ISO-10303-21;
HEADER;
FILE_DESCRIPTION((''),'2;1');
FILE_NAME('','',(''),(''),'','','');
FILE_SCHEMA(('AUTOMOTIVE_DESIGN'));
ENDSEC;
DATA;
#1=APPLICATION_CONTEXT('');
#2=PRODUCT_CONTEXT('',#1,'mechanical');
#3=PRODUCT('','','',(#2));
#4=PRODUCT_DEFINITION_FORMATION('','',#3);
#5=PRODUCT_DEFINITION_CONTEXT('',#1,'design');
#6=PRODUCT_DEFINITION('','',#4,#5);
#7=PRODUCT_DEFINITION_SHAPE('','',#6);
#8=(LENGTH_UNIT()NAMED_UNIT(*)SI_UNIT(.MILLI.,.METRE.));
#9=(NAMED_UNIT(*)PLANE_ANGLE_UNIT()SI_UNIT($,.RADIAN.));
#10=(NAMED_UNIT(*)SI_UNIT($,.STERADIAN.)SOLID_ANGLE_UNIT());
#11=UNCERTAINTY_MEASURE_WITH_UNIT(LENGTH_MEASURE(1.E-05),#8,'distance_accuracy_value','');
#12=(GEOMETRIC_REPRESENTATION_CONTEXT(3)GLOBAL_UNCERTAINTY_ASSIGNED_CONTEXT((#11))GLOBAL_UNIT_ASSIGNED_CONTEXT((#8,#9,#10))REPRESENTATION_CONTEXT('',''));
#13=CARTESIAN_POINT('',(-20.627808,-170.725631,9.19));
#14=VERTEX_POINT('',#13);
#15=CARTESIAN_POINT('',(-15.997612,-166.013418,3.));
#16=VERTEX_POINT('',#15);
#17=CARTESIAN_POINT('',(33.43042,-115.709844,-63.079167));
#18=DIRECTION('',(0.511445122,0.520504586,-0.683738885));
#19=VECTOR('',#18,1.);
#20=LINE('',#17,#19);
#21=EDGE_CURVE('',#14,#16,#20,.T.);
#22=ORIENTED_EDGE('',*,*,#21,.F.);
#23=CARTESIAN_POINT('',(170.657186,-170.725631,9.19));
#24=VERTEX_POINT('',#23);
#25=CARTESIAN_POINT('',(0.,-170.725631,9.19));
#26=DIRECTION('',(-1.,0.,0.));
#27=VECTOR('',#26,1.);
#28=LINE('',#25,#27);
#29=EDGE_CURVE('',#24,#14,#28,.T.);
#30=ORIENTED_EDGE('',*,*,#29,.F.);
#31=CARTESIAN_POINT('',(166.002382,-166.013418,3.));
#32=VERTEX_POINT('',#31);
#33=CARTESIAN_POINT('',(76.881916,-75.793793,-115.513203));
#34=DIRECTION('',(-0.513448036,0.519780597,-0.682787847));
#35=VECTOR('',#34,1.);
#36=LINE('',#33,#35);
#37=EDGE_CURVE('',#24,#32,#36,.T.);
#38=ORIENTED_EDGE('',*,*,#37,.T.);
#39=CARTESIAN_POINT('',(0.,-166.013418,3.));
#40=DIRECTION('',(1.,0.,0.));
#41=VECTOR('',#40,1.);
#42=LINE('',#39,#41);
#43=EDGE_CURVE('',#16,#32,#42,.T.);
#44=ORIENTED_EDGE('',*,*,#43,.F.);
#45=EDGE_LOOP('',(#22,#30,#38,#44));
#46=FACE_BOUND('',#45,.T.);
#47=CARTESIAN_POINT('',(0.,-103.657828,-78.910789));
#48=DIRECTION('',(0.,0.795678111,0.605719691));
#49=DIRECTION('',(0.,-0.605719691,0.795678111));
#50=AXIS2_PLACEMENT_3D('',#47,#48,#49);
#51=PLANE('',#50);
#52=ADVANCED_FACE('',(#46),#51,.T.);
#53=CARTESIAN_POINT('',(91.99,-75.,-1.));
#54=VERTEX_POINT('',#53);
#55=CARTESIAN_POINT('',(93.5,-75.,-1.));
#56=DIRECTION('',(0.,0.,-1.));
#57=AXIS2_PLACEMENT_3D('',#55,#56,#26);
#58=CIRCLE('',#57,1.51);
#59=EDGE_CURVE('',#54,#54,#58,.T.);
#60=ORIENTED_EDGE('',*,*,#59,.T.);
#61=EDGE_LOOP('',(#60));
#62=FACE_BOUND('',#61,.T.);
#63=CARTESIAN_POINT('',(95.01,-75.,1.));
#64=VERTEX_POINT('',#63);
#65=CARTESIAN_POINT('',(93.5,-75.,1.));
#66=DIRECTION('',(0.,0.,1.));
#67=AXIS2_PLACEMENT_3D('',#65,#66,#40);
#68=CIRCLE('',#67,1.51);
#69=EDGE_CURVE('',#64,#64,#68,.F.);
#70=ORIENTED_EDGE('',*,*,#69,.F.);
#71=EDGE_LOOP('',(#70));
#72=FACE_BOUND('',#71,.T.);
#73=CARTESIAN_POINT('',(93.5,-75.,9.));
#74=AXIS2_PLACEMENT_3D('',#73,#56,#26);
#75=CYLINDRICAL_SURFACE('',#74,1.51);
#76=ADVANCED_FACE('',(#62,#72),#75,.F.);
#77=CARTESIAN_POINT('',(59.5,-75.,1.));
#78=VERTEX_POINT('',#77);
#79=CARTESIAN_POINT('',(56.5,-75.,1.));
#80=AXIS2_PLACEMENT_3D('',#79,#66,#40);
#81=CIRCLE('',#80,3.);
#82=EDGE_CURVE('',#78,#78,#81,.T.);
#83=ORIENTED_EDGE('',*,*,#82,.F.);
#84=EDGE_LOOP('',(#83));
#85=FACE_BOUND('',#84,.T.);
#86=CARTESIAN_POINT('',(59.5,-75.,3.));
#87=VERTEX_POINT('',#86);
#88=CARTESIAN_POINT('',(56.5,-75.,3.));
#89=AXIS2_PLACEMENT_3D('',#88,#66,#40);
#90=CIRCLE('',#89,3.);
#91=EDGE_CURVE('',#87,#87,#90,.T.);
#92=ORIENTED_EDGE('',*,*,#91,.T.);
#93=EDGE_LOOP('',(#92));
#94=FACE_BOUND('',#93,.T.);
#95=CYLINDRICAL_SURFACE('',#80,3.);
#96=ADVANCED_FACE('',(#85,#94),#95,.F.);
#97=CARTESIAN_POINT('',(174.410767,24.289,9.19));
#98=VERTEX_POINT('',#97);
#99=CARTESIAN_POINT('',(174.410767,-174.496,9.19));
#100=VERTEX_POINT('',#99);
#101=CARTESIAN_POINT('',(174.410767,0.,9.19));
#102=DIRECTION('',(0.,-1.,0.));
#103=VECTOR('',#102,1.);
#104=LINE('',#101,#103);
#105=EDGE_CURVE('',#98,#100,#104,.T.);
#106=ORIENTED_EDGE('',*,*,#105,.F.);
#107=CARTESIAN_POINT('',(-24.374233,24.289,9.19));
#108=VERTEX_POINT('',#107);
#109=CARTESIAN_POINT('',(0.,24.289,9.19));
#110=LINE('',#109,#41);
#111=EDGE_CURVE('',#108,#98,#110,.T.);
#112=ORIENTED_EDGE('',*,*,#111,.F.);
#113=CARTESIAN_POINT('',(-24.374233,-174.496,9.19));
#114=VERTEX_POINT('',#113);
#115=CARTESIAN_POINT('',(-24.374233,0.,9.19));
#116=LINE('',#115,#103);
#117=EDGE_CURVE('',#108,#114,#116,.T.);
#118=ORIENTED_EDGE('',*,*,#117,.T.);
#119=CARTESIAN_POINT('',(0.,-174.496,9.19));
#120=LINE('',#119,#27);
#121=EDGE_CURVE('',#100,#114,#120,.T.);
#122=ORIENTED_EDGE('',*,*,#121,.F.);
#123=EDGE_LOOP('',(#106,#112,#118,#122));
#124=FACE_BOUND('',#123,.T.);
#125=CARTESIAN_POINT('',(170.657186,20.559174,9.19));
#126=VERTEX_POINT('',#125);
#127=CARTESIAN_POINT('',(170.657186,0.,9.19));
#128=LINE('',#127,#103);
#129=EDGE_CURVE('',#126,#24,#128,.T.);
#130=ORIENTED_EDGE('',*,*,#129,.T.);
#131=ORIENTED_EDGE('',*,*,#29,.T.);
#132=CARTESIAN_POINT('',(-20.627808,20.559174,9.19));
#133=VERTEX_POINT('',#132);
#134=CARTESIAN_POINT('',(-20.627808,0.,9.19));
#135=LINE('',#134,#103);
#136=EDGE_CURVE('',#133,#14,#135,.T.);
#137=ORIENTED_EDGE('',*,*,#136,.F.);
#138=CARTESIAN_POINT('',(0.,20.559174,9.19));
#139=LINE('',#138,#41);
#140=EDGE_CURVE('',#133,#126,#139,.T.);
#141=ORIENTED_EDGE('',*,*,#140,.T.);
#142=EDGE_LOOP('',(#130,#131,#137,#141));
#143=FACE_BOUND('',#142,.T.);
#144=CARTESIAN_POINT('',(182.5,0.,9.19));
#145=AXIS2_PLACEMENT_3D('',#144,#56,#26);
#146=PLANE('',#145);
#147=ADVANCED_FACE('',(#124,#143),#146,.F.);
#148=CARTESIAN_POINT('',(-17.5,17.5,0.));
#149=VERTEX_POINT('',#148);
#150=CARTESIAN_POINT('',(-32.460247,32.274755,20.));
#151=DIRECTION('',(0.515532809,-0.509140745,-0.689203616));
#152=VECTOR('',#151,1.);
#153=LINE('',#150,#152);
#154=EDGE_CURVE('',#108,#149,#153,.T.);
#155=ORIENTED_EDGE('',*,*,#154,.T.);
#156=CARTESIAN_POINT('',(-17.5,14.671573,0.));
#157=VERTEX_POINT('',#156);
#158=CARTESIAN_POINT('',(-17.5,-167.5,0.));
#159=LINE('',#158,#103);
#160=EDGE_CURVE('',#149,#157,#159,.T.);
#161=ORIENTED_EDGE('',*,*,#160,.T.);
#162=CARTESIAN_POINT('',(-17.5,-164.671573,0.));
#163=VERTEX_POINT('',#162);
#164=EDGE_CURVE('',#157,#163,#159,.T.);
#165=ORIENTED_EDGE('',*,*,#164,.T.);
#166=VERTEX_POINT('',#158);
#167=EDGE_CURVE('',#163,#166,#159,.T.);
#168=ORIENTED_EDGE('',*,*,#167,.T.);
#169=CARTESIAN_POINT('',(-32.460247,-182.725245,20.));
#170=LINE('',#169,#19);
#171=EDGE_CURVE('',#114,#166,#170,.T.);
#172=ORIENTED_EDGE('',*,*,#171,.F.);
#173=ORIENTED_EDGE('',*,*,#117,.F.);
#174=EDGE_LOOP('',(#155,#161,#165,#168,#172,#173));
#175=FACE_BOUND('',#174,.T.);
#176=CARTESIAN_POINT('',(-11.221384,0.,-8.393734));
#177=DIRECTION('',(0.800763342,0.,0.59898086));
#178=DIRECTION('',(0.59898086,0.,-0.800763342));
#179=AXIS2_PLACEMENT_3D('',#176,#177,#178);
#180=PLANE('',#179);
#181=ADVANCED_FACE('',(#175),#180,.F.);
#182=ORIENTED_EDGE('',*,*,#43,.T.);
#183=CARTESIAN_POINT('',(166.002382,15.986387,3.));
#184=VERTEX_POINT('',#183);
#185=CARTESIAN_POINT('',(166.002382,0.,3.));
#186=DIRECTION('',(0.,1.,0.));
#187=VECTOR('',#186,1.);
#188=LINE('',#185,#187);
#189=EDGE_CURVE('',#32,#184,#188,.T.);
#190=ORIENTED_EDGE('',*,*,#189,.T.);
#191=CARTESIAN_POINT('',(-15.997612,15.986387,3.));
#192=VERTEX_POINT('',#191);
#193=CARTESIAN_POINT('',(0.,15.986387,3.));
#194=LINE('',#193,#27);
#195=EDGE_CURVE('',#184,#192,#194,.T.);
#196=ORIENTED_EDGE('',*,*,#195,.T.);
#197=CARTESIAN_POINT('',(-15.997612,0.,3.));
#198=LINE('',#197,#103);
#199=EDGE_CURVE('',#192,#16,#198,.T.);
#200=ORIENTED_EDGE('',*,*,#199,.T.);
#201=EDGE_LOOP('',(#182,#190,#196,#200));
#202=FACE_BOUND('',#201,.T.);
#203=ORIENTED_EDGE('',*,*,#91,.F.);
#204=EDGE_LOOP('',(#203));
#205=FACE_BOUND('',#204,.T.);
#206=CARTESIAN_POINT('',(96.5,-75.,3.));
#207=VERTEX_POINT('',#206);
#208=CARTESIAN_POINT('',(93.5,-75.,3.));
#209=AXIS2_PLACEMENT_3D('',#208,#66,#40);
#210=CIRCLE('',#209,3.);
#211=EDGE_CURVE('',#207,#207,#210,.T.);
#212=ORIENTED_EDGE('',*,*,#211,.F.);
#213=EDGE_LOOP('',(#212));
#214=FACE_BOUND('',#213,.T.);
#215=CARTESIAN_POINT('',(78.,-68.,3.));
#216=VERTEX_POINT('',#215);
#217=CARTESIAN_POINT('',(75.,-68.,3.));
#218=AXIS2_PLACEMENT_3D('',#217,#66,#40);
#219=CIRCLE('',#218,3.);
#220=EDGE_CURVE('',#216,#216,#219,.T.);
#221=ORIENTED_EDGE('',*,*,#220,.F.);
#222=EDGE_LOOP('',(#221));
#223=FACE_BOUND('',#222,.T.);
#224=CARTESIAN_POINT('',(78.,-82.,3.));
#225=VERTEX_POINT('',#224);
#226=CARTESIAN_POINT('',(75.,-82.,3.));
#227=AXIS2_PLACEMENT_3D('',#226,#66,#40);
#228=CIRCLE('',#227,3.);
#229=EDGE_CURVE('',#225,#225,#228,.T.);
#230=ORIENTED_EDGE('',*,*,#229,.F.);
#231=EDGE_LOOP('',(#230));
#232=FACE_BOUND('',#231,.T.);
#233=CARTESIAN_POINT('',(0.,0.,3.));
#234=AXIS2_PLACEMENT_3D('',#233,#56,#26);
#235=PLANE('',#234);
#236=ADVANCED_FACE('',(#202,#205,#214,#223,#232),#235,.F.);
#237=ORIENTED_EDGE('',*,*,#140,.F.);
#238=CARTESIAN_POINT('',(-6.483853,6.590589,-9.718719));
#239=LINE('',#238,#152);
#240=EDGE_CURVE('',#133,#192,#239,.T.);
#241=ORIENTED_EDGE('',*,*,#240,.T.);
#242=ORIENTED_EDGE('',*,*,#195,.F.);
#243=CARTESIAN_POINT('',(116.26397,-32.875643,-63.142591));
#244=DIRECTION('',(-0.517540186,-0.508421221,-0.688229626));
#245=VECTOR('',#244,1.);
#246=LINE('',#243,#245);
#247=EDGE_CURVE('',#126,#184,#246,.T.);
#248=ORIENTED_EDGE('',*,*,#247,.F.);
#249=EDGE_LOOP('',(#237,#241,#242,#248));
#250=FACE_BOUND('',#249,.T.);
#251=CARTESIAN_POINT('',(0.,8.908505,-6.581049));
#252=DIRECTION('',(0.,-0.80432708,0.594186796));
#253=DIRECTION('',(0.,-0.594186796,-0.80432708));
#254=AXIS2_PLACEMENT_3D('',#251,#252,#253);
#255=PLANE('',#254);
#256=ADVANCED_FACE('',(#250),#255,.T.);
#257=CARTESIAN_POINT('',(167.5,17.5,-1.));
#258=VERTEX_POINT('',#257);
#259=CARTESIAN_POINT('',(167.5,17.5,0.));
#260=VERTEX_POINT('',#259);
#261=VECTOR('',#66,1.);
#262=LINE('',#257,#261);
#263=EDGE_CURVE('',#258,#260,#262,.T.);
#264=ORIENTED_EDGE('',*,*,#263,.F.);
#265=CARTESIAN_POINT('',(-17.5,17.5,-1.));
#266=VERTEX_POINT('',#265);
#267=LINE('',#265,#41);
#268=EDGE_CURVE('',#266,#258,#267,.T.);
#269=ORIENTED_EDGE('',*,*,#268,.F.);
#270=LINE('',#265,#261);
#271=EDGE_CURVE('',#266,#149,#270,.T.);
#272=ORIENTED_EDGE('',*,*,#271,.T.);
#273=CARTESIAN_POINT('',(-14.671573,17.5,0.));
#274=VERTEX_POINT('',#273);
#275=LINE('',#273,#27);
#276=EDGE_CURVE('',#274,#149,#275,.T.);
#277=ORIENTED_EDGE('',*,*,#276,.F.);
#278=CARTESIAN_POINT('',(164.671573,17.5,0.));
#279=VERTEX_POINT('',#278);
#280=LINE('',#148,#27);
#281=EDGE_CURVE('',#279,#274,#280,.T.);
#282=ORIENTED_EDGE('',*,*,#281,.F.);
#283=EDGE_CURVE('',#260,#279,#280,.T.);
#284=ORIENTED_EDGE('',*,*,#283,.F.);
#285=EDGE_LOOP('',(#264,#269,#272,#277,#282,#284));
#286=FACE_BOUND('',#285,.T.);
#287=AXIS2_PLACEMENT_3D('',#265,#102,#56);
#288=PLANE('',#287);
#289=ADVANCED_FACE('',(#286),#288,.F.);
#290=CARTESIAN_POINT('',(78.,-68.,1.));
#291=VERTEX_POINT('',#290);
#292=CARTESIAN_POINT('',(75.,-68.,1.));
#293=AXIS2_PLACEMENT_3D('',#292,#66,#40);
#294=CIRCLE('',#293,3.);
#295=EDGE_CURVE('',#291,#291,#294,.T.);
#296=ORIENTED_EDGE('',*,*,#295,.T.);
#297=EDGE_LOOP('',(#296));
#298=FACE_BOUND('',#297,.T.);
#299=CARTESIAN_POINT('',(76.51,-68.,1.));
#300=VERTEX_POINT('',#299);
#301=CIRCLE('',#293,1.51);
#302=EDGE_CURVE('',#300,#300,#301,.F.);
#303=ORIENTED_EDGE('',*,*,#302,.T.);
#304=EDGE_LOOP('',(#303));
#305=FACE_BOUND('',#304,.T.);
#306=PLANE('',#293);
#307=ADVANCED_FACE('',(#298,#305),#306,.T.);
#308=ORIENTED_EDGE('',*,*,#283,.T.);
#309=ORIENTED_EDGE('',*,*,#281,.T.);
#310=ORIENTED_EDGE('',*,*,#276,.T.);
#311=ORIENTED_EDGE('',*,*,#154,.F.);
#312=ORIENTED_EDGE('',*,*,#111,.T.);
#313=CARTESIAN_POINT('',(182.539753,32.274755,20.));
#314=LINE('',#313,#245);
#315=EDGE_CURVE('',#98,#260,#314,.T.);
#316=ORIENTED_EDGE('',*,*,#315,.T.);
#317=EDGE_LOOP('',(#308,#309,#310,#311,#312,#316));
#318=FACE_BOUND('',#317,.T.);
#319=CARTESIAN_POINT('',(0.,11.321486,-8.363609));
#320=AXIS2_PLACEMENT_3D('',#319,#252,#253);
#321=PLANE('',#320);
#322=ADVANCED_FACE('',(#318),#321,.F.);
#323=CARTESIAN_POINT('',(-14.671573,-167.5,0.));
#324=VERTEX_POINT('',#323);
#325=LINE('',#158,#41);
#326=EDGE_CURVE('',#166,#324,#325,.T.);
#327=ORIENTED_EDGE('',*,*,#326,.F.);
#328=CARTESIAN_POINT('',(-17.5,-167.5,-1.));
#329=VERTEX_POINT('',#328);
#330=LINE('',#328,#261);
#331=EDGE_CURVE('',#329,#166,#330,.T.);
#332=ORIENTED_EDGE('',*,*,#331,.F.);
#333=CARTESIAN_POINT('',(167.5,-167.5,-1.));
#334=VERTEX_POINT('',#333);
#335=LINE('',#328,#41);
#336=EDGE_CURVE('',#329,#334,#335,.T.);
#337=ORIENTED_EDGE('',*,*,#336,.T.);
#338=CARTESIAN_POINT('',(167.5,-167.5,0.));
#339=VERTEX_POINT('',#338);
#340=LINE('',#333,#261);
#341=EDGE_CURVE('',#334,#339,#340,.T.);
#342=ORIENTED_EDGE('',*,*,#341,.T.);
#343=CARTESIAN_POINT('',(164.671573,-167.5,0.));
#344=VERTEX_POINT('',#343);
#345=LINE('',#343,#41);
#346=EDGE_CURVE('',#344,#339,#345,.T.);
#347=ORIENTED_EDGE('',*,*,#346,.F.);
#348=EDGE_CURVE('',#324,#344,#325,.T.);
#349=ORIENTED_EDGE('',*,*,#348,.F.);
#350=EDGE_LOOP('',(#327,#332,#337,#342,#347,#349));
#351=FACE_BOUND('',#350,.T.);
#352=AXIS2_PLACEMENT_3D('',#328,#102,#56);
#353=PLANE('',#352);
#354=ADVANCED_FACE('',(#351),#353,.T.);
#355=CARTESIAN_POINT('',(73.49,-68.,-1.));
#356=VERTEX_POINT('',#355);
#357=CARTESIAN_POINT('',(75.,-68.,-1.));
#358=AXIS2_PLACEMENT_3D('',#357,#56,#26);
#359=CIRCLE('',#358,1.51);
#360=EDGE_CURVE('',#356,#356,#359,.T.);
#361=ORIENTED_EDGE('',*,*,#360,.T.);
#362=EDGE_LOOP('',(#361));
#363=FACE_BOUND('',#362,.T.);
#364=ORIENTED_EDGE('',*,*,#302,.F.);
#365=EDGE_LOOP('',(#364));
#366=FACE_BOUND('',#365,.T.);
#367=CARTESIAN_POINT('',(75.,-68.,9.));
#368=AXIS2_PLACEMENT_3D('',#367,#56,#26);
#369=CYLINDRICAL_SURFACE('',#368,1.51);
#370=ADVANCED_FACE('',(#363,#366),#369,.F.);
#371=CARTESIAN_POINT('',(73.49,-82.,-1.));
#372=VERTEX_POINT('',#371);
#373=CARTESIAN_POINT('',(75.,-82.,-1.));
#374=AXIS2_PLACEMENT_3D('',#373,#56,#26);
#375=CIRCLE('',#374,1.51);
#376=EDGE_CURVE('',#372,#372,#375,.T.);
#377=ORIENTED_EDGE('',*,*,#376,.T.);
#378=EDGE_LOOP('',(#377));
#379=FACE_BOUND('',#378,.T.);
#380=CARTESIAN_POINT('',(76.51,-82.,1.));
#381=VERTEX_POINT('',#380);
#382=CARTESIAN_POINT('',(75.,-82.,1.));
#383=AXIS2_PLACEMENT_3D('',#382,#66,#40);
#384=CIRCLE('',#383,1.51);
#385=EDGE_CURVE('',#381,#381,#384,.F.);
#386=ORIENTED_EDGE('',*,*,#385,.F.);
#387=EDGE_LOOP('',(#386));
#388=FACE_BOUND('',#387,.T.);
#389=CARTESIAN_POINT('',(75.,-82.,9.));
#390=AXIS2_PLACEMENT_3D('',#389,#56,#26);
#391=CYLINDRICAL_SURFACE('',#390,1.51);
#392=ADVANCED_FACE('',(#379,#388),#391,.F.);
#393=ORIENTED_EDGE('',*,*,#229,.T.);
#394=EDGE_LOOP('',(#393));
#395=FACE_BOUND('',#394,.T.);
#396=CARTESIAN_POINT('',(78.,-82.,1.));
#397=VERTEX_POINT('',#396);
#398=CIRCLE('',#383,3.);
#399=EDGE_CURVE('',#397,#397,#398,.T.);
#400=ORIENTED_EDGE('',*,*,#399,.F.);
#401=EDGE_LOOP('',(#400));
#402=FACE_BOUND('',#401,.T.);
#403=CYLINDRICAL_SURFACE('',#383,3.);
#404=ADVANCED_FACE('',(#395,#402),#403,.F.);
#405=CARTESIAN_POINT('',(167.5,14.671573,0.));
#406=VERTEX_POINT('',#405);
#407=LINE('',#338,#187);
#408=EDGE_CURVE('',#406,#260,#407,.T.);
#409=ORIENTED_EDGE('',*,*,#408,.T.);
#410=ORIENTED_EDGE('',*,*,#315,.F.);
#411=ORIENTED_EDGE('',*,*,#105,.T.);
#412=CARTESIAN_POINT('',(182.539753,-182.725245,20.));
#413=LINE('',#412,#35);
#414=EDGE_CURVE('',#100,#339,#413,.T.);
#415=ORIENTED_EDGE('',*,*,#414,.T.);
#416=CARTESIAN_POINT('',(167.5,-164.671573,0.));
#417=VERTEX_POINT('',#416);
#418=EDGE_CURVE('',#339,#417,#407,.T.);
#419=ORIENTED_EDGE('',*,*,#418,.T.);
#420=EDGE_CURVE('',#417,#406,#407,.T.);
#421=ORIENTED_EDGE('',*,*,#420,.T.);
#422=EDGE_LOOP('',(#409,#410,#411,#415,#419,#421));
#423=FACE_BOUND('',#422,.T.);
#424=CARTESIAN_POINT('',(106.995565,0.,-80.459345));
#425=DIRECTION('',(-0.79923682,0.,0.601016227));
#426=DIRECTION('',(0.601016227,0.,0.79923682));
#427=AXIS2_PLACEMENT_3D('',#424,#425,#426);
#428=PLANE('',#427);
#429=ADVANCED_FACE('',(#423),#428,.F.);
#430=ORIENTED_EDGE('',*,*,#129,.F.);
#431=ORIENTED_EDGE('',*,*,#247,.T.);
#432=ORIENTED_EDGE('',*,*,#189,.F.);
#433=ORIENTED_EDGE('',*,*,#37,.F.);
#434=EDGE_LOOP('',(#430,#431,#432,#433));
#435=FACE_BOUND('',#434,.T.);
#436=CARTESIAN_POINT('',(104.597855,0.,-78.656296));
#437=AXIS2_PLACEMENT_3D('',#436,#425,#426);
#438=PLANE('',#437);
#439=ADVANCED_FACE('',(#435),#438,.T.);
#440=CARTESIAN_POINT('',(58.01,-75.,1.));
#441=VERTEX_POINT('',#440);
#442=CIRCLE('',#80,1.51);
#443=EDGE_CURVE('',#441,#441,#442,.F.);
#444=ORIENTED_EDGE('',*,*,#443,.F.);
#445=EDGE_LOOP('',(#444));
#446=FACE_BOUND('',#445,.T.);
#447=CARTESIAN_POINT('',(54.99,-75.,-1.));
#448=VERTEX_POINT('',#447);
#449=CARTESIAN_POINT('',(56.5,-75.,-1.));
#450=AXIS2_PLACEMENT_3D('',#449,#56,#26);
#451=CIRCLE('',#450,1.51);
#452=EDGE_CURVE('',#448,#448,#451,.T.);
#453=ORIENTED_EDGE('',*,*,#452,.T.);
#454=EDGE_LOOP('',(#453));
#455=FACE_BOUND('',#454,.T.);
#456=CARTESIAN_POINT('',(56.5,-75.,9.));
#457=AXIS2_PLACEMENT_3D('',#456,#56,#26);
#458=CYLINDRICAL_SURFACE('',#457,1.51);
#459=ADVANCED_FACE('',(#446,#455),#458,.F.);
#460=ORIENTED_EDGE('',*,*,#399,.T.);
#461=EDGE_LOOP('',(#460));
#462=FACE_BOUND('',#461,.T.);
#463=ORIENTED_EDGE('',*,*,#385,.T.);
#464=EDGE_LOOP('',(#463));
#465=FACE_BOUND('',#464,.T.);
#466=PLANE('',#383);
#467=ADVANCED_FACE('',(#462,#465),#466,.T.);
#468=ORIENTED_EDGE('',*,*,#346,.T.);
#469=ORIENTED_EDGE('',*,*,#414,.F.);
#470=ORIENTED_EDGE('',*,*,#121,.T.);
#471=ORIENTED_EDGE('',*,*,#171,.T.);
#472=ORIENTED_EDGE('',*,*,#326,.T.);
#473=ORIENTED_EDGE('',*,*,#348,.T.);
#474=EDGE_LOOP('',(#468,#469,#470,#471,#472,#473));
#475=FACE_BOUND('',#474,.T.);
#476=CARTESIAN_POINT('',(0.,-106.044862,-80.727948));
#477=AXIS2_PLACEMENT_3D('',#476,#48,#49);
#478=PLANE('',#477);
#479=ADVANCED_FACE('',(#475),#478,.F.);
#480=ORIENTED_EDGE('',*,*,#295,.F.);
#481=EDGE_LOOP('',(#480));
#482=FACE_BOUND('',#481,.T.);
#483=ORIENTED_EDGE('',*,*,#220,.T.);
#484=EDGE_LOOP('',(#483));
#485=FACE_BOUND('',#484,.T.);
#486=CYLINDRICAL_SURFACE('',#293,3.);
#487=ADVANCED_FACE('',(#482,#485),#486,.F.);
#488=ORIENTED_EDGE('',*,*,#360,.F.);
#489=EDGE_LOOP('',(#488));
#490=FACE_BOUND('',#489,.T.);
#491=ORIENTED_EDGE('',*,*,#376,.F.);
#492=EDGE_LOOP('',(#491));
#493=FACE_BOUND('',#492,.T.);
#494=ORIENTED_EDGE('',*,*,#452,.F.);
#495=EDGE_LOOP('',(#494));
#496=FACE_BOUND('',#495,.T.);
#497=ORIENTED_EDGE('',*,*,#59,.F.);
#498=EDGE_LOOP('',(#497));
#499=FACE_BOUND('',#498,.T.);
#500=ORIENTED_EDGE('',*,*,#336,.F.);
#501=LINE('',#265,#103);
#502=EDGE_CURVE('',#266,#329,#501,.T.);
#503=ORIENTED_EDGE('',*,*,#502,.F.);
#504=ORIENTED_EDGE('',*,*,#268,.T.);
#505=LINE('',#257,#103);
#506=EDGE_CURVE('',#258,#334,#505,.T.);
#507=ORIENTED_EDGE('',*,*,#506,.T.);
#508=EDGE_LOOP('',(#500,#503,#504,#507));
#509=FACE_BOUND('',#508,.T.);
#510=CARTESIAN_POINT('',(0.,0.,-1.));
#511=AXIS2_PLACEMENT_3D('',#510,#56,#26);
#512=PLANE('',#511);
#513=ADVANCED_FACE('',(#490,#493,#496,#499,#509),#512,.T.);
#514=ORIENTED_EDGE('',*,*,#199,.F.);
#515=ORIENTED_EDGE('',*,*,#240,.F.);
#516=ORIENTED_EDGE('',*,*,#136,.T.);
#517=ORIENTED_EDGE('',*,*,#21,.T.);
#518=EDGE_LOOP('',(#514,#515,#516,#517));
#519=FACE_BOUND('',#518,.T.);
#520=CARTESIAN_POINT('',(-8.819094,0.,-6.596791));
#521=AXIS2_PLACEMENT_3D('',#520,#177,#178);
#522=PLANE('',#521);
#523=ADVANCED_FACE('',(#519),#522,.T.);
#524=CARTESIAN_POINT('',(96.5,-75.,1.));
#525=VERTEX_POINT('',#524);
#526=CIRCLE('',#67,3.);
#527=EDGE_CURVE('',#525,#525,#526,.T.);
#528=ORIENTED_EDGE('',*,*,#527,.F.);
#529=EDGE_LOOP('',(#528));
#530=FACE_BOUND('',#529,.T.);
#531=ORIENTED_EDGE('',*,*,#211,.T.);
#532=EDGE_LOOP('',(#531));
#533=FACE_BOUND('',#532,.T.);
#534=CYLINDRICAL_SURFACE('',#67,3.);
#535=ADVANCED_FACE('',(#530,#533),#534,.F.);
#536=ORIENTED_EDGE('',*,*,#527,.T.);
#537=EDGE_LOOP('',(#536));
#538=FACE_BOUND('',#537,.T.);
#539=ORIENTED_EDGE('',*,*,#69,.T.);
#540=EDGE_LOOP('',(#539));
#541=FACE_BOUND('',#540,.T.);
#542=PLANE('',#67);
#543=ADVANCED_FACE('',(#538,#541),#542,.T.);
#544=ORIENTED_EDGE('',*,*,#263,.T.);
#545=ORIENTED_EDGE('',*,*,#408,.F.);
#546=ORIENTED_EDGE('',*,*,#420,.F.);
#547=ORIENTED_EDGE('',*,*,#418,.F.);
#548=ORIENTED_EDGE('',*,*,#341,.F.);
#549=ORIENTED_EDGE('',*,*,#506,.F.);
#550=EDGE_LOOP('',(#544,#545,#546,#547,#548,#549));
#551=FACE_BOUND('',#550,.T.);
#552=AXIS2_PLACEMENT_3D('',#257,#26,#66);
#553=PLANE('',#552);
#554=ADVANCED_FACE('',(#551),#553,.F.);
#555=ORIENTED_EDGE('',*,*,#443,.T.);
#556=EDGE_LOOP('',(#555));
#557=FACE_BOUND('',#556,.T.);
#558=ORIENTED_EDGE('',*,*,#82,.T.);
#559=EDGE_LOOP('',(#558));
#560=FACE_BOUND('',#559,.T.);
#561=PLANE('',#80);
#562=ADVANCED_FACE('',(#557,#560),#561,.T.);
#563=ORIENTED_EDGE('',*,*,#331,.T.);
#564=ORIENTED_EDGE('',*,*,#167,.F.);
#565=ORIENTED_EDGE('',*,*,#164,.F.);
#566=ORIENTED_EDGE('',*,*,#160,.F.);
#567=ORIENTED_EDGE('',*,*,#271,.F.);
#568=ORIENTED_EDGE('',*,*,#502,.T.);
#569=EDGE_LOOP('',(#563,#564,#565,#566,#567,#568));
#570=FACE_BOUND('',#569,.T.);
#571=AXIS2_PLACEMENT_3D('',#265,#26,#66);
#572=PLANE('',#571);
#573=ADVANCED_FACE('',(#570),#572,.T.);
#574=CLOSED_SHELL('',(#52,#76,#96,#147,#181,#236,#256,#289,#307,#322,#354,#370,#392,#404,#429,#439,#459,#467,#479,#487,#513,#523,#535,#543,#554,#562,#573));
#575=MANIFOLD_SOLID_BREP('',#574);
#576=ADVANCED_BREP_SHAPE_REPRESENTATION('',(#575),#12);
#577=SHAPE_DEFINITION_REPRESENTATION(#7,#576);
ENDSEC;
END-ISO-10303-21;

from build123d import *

# Parameters (mm, degrees)
SHELL_2_T            = -3
SKETCH_4_R           = 1.5
CUT_EXTRUDE_1_DEPTH  = 10
EXTRUDE_1_DEPTH      = 40.5
CUT_EXTRUDE_2_DEPTH  = 100
SKETCH_8_R           = 1.5
EXTRUDE_2_DEPTH      = 3
EXTRUDE_3_DEPTH      = 4
EXTRUDE_4_DEPTH      = 4
SKETCH_11_W          = 56.2
SKETCH_11_H          = 25
CUT_EXTRUDE_3_DEPTH  = 4
SKETCH_12_W          = 3
SKETCH_12_H          = 215
EXTRUDE_5_DEPTH      = 10
SKETCH_13_W          = 10
SKETCH_13_H          = 215
CUT_EXTRUDE_4_DEPTH  = 300
SKETCH_15_W          = 116.702064096
SKETCH_15_H          = 65.174269722
SKETCH_15_W_2        = 111.85
SKETCH_15_H_2        = 80
CUT_EXTRUDE_5_DEPTH  = 4
SKETCH_16_W          = 185
SKETCH_16_H          = 185
EXTRUDE_6_DEPTH      = 4
SKETCH_17_W          = 56.2
SKETCH_17_H          = 25
CUT_EXTRUDE_6_DEPTH  = 4
EXTRUDE_7_DEPTH      = 4
SKETCH_20_R          = 1.5
CUT_EXTRUDE_7_DEPTH  = 10
SKETCH_21_W          = 185
SKETCH_21_H          = 185
CUT_EXTRUDE_8_DEPTH  = 37.5
EXTRUDE_START        = 1
SKETCH_22_W          = 185
SKETCH_22_H          = 185
SKETCH_22_R          = 1.5
EXTRUDE_8_DEPTH      = 1
CUT_EXTRUDE_START    = -2
SKETCH_24_R          = 3
SKETCH_24_R_2        = 1.5
CUT_EXTRUDE_9_DEPTH  = 2
SKETCH_25_R          = 1.51
CUT_EXTRUDE_10_DEPTH = 10
SKETCH_26_R          = 1.5
EXTRUDE_9_DEPTH      = 4
EXTRUDE_START_2      = -4
SKETCH_28_R          = 3
EXTRUDE_10_DEPTH     = 4
SKETCH_29_R          = 3
CUT_EXTRUDE_11_DEPTH = 2
CUT_EXTRUDE_12_DEPTH = 10
CUT_EXTRUDE_13_DEPTH = 10
CUT_EXTRUDE_14_DEPTH = 10
CUT_EXTRUDE_15_DEPTH = 10
CUT_EXTRUDE_19_DEPTH = 200
CUT_EXTRUDE_20_DEPTH = 200


with BuildPart() as part:
    # 草图3 → 放样1 section 0
    with BuildSketch(Plane.XY.offset(20)):
        with BuildLine():
            Line((-32.460246779, 32.274755465), (182.539753221, 32.274755465))
            Line((182.539753221, 32.274755465), (182.539753221, -182.725244535))
            Line((182.539753221, -182.725244535), (-32.460246779, -182.725244535))
            Line((-32.460246779, -182.725244535), (-32.460246779, 32.274755465))
        make_face()
    # 草图1 → 放样1 section 1
    with BuildSketch(Plane.XY):
        with BuildLine():
            Line((-17.5, -167.5), (167.5, -167.5))
            Line((167.5, -167.5), (167.5, 17.5))
            Line((167.5, 17.5), (-17.5, 17.5))
            Line((-17.5, 17.5), (-17.5, -167.5))
        make_face()
    loft()

    # 抽壳2
    shell_2_openings = [part.faces().sort_by_distance(p)[0] for p in [
        (75.039753221, -75.225244535, 20),
    ]]
    offset(amount=SHELL_2_T, openings=shell_2_openings, kind=Kind.INTERSECTION)

    # 草图4 → 切除-拉伸1 (cut)
    with BuildSketch(Plane.XY.offset(3)):
        with BuildLine():
            ThreePointArc((86.25, -75.225244535), (84.75, -73.725244535), (83.25, -75.225244535))
            Line((83.25, -75.225244535), (86.25, -75.225244535))
        make_face()
        with BuildLine():
            Line((86.25, -75.225244535), (83.25, -75.225244535))
            ThreePointArc((83.25, -75.225244535), (84.75, -76.725244535), (86.25, -75.225244535))
        make_face()
        with Locations((66.25, -82.225244535)):
            Circle(SKETCH_4_R)
        with BuildLine():
            ThreePointArc((74.75, -75.225244535), (73.25, -73.725244535), (71.75, -75.225244535))
            Line((71.75, -75.225244535), (74.75, -75.225244535))
        make_face()
        with BuildLine():
            Line((74.75, -75.225244535), (71.75, -75.225244535))
            ThreePointArc((71.75, -75.225244535), (73.25, -76.725244535), (74.75, -75.225244535))
        make_face()
        with Locations((66.25, -68.225244535)):
            Circle(SKETCH_4_R)
        with BuildLine():
            ThreePointArc((60.75, -75.225244535), (59.25, -73.725244535), (57.75, -75.225244535))
            Line((57.75, -75.225244535), (60.75, -75.225244535))
        make_face()
        with BuildLine():
            Line((60.75, -75.225244535), (57.75, -75.225244535))
            ThreePointArc((57.75, -75.225244535), (59.25, -76.725244535), (60.75, -75.225244535))
        make_face()
        with BuildLine():
            ThreePointArc((49.25, -75.225244535), (47.75, -73.725244535), (46.25, -75.225244535))
            Line((46.25, -75.225244535), (49.25, -75.225244535))
        make_face()
        with BuildLine():
            Line((49.25, -75.225244535), (46.25, -75.225244535))
            ThreePointArc((46.25, -75.225244535), (47.75, -76.725244535), (49.25, -75.225244535))
        make_face()
    extrude(amount=-CUT_EXTRUDE_1_DEPTH, mode=Mode.SUBTRACT)

    # 草图6 → 凸台-拉伸1 (add)
    with BuildSketch(Plane.XY.offset(3)):
        Polygon((38.15, -62.5), (34.15, -62.5), (31.15, -62.5), (31.15, -65.5), (34.15, -65.5), (34.15, -84.5), (31.15, -84.5), (31.15, -87.5), (34.15, -87.5), (38.15, -87.5), (38.15, -75), align=None)
        Polygon((94.35, -75), (94.35, -62.5), (98.35, -62.5), (101.35, -62.5), (101.35, -65.5), (98.35, -65.5), (98.35, -84.5), (101.35, -84.5), (101.35, -87.5), (98.35, -87.5), (94.35, -87.5), align=None)
    extrude(amount=-EXTRUDE_1_DEPTH)

    # 草图7 → 切除-拉伸2 (cut)
    with BuildSketch(Plane(origin=(98.35, 0, 0), x_dir=(0, 0, -1), z_dir=(1, 0, 0))):
        with BuildLine():
            ThreePointArc((18.01, -75), (16.5, -73.49), (14.99, -75))
            Line((14.99, -75), (16.5, -75))
            Line((16.5, -75), (18.01, -75))
        make_face()
        with BuildLine():
            Line((16.5, -75), (14.99, -75))
            ThreePointArc((14.99, -75), (16.5, -76.51), (18.01, -75))
            Line((18.01, -75), (16.5, -75))
        make_face()
        with BuildLine():
            ThreePointArc((35.01, -75), (33.5, -73.49), (31.99, -75))
            Line((31.99, -75), (33.5, -75))
            Line((33.5, -75), (35.01, -75))
        make_face()
        with BuildLine():
            Line((33.5, -75), (31.99, -75))
            ThreePointArc((31.99, -75), (33.5, -76.51), (35.01, -75))
            Line((35.01, -75), (33.5, -75))
        make_face()
    extrude(amount=-CUT_EXTRUDE_2_DEPTH, mode=Mode.SUBTRACT)

    # 草图8 → 凸台-拉伸2 (add)
    with BuildSketch(Plane.XY.offset(3)):
        with Locations((66.25, -68.225244535)):
            Circle(SKETCH_8_R)
        with Locations((59.25, -75.225244535)):
            Circle(SKETCH_8_R)
        with Locations((47.75, -75.225244535)):
            Circle(SKETCH_8_R)
        with Locations((73.25, -75.225244535)):
            Circle(SKETCH_8_R)
        with Locations((84.75, -75.225244535)):
            Circle(SKETCH_8_R)
        with Locations((66.25, -82.225244535)):
            Circle(SKETCH_8_R)
    extrude(amount=-EXTRUDE_2_DEPTH)

    # 草图9 → 凸台-拉伸3 (add)
    with BuildSketch(Plane(origin=(0, 0, 0), x_dir=(-1, 0, 0), z_dir=(0, 0, -1))):
        Polygon((-73.585786438, -76.414213562), (0, -2.828427125), (0, 0), (-2.828427125, 0), (-72.748638048, -69.920210924), (-150, -147.171572875), (-150, -150), (-147.171572875, -150), align=None)
    extrude(amount=EXTRUDE_3_DEPTH)

    # 草图10 → 凸台-拉伸4 (add)
    with BuildSketch(Plane(origin=(0, 0, 0), x_dir=(-1, 0, 0), z_dir=(0, 0, -1))):
        Polygon((-106.669297814, -40.502275062), (-147.171572875, 17.5), (-167.5, 17.5), (-167.5, 34.342276425), (-121.973814525, -30.8546126), (-26.55602168, -167.5), (17.5, -167.5), (17.5, -218.321959389), align=None)
    extrude(amount=EXTRUDE_4_DEPTH)

    # 草图11 → 切除-拉伸3 (cut)
    with BuildSketch(Plane(origin=(0, 0, -4), x_dir=(-1, 0, 0), z_dir=(0, 0, -1))):
        with Locations((-66.25, -75)):
            Rectangle(SKETCH_11_W, SKETCH_11_H)
    extrude(amount=-CUT_EXTRUDE_3_DEPTH, mode=Mode.SUBTRACT)


with BuildPart() as body_2:
    # 草图12 → 凸台-拉伸5 (new body)
    with BuildSketch(Plane.XY.offset(20)):
        with Locations((184.039753221, -75.225244535)):
            Rectangle(SKETCH_12_W, SKETCH_12_H)
    extrude(amount=-EXTRUDE_5_DEPTH)


with BuildPart() as cut_extrude_4_tool:
    # 草图13 → 切除-拉伸4 (new body)
    with BuildSketch(Plane(origin=(185.539753221, 0, 0), x_dir=(0, 0, -1), z_dir=(1, 0, 0))):
        with Locations((-15, -75.225244535)):
            Rectangle(SKETCH_13_W, SKETCH_13_H)
    extrude(amount=-CUT_EXTRUDE_4_DEPTH)


with BuildPart() as part_1:
    add(part.part)

    # 切除-拉伸4: cut by cut_extrude_4_tool
    add(cut_extrude_4_tool.part, mode=Mode.SUBTRACT)

    # 草图15 → 切除-拉伸5 (cut)
    with BuildSketch(Plane(origin=(0, 0, -4), x_dir=(-1, 0, 0), z_dir=(0, 0, -1))):
        with Locations((-96.501032048, -120.087134861)):
            Rectangle(SKETCH_15_W, SKETCH_15_H)
        with Locations((-38.425, -22.5)):
            Rectangle(SKETCH_15_W_2, SKETCH_15_H_2)
    extrude(amount=-CUT_EXTRUDE_5_DEPTH, mode=Mode.SUBTRACT)

    # 草图16 → 凸台-拉伸6 (add)
    with BuildSketch(Plane(origin=(0, 0, 0), x_dir=(-1, 0, 0), z_dir=(0, 0, -1))):
        with Locations((-75, -75)):
            Rectangle(SKETCH_16_W, SKETCH_16_H)
        Polygon((-94.35, -62.5), (-94.35, -70.413972806), (-99.876229843, -62.5), align=None, mode=Mode.SUBTRACT)
        Polygon((-31.15, -62.5), (-31.15, -65.5), (-34.15, -65.5), (-34.15, -84.5), (-31.15, -84.5), (-31.15, -87.5), (-38.15, -87.5), (-38.15, -62.5), align=None, mode=Mode.SUBTRACT)
    extrude(amount=EXTRUDE_6_DEPTH)

    # 草图17 → 切除-拉伸6 (cut)
    with BuildSketch(Plane(origin=(0, 0, 0), x_dir=(-1, 0, 0), z_dir=(0, 0, -1))):
        with Locations((-66.25, -75)):
            Rectangle(SKETCH_17_W, SKETCH_17_H)
    extrude(amount=CUT_EXTRUDE_6_DEPTH, mode=Mode.SUBTRACT)

    # 草图18 → 凸台-拉伸7 (add)
    with BuildSketch(Plane(origin=(0, 0, 0), x_dir=(-1, 0, 0), z_dir=(0, 0, -1))):
        Polygon((-75, -119.25), (-33.578427125, -119.25), (-31.578427125, -121.25), (-29.578427125, -123.25), (-75, -123.25), (-120.421572875, -123.25), (-116.421572875, -119.25), align=None)
        Polygon((-119.25, -75), (-119.25, -116.421572875), (-121.25, -118.421572875), (-123.25, -120.421572875), (-123.25, -75), (-123.25, -29.578427125), (-119.25, -33.578427125), align=None)
        Polygon((-75, -30.75), (-116.421572875, -30.75), (-120.421572875, -26.75), (-75, -26.75), (-29.578427125, -26.75), (-33.578427125, -30.75), align=None)
        Polygon((-30.75, -33.578427125), (-26.75, -29.578427125), (-26.75, -75), (-26.75, -120.421572875), (-30.75, -116.421572875), (-30.75, -75), align=None)
    extrude(amount=EXTRUDE_7_DEPTH)

    # 草图20 → 切除-拉伸7 (cut)
    with BuildSketch(Plane(origin=(0, 0, 0), x_dir=(-1, 0, 0), z_dir=(0, 0, -1))):
        with Locations((-84.75, -75)):
            Circle(SKETCH_20_R)
        with Locations((-47.75, -75)):
            Circle(SKETCH_20_R)
        with Locations((-66.25, -68)):
            Circle(SKETCH_20_R)
        with Locations((-66.25, -82)):
            Circle(SKETCH_20_R)
    extrude(amount=-CUT_EXTRUDE_7_DEPTH, mode=Mode.SUBTRACT)

    # 草图21 → 切除-拉伸8 (cut)
    with BuildSketch(Plane(origin=(0, 0, -37.5), x_dir=(-1, 0, 0), z_dir=(0, 0, -1))):
        with Locations((-75, -75)):
            Rectangle(SKETCH_21_W, SKETCH_21_H)
    extrude(amount=-CUT_EXTRUDE_8_DEPTH, mode=Mode.SUBTRACT)

    # 草图22 → 凸台-拉伸8 (add)
    with BuildSketch(Plane(origin=(0, 0, 0), x_dir=(-1, 0, 0), z_dir=(0, 0, -1)).offset(EXTRUDE_START)):
        with Locations((-75, -75)):
            Rectangle(SKETCH_22_W, SKETCH_22_H)
        with Locations((-66.25, -68)):
            Circle(SKETCH_22_R, mode=Mode.SUBTRACT)
        with Locations((-66.25, -82)):
            Circle(SKETCH_22_R, mode=Mode.SUBTRACT)
        with Locations((-84.75, -75)):
            Circle(SKETCH_22_R, mode=Mode.SUBTRACT)
        with Locations((-47.75, -75)):
            Circle(SKETCH_22_R, mode=Mode.SUBTRACT)
    extrude(amount=-EXTRUDE_8_DEPTH)

    # 草图24 → 切除-拉伸9 (cut)
    # profile 1 of 4: a face of its own
    with BuildSketch(Plane.XY.offset(3).offset(CUT_EXTRUDE_START)):
        with Locations((66.25, -68)):
            Circle(SKETCH_24_R)
        with Locations((66.25, -68)):
            Circle(SKETCH_24_R_2, mode=Mode.SUBTRACT)
    # profile 2 of 4: a face of its own
    with BuildSketch(Plane.XY.offset(3).offset(CUT_EXTRUDE_START)):
        with Locations((66.25, -82)):
            Circle(SKETCH_24_R)
        with Locations((66.25, -82)):
            Circle(SKETCH_24_R_2, mode=Mode.SUBTRACT)
    # profile 3 of 4: a face of its own
    with BuildSketch(Plane.XY.offset(3).offset(CUT_EXTRUDE_START)):
        with Locations((84.75, -75)):
            Circle(SKETCH_24_R)
        with Locations((84.75, -75)):
            Circle(SKETCH_24_R_2, mode=Mode.SUBTRACT)
    # profile 4 of 4: a face of its own
    with BuildSketch(Plane.XY.offset(3).offset(CUT_EXTRUDE_START)):
        with Locations((47.75, -75)):
            Circle(SKETCH_24_R)
    extrude(amount=CUT_EXTRUDE_9_DEPTH, mode=Mode.SUBTRACT)

    # 草图25 → 切除-拉伸10 (cut)
    with BuildSketch(Plane(origin=(0, 0, -1), x_dir=(-1, 0, 0), z_dir=(0, 0, -1))):
        with Locations((-75, -68)):
            Circle(SKETCH_25_R)
        with Locations((-75, -82)):
            Circle(SKETCH_25_R)
        with Locations((-93.5, -75)):
            Circle(SKETCH_25_R)
        with Locations((-56.5, -75)):
            Circle(SKETCH_25_R)
    extrude(amount=-CUT_EXTRUDE_10_DEPTH, mode=Mode.SUBTRACT)

    # 草图26 → 凸台-拉伸9 (add)
    with BuildSketch(Plane(origin=(0, 0, -1), x_dir=(-1, 0, 0), z_dir=(0, 0, -1))):
        with Locations((-84.75, -75)):
            Circle(SKETCH_26_R)
        with Locations((-66.25, -68)):
            Circle(SKETCH_26_R)
        with Locations((-66.25, -82)):
            Circle(SKETCH_26_R)
        with Locations((-47.75, -75)):
            Circle(SKETCH_26_R)
    extrude(amount=-EXTRUDE_9_DEPTH)

    # 草图28 → 凸台-拉伸10 (add)
    with BuildSketch(Plane.XY.offset(3).offset(EXTRUDE_START_2)):
        with Locations((84.75, -75)):
            Circle(SKETCH_28_R)
        with Locations((66.25, -68)):
            Circle(SKETCH_28_R)
        with Locations((47.75, -75)):
            Circle(SKETCH_28_R)
        with Locations((66.25, -82)):
            Circle(SKETCH_28_R)
    extrude(amount=EXTRUDE_10_DEPTH)

    # 草图29 → 切除-拉伸11 (cut)
    with BuildSketch(Plane.XY.offset(3)):
        with Locations((75, -68)):
            Circle(SKETCH_29_R)
        with Locations((75, -82)):
            Circle(SKETCH_29_R)
        with Locations((93.5, -75)):
            Circle(SKETCH_29_R)
        with Locations((56.5, -75)):
            Circle(SKETCH_29_R)
    extrude(amount=-CUT_EXTRUDE_11_DEPTH, mode=Mode.SUBTRACT)

    # 草图30 → 切除-拉伸12 (cut)
    with BuildSketch(Plane(origin=(-11.221383762, 0, -8.393733514), x_dir=(-0.5989808600970753, 0, 0.8007633415918638), z_dir=(-0.8007633415918638, 0, -0.5989808600970753))):
        Polygon((21.970249209, 24.295823605), (22.970249209, 24.887377733), (22.970249209, 25.521543856), (21.970249209, 25.521543856), align=None)
        Polygon((21.970249209, 23.212591773), (22.970249209, 23.212591773), (22.970249209, 24.887377733), (21.970249209, 24.295823605), align=None)
        Polygon((22.970249209, -175.112622267), (22.970249209, 23.212591773), (21.970249209, 23.212591773), (21.970249209, -174.503031383), align=None)
        Polygon((24.472936447, 23.212591773), (22.970249209, 23.212591773), (22.970249209, -175.112622267), (21.970249209, -174.503031383), (21.970249209, -177.376097461), (24.472936447, -177.376097461), align=None)
    extrude(amount=-CUT_EXTRUDE_12_DEPTH, mode=Mode.SUBTRACT)

    # 草图31 → 切除-拉伸13 (cut)
    with BuildSketch(Plane(origin=(0, 11.321485901, -8.363609284), x_dir=(1, 0, 0), z_dir=(0, 0.804327079908719, -0.5941867959871823))):
        Polygon((-9.362751303, -26.365830403), (-9.362751303, -22.831022035), (-23.310620962, -22.831022035), (-24.381142529, -21.835452742), (-24.378476809, -21.831022035), (-28.997349139, -21.831022035), (-28.997349139, -26.365830403), align=None)
        Polygon((175.01987661, -22.831022035), (-9.362751303, -22.831022035), (-9.362751303, -26.365830403), (-9.362751303, -29.913680828), (184.828261885, -29.913680828), (184.828261885, -21.831022035), (174.415032571, -21.831022035), align=None)
        Polygon((-23.310620962, -22.831022035), (-9.362751303, -22.831022035), (-9.362751303, -21.831022035), (-24.378476809, -21.831022035), (-24.381142529, -21.835452742), align=None)
        Polygon((-9.362751303, -21.831022035), (-9.362751303, -22.831022035), (175.01987661, -22.831022035), (174.415032571, -21.831022035), align=None)
    extrude(amount=-CUT_EXTRUDE_13_DEPTH, mode=Mode.SUBTRACT)

    # 草图32 → 切除-拉伸14 (cut)
    with BuildSketch(Plane(origin=(106.995565381, 0, -80.459344952), x_dir=(-0.6010162270612195, 0, -0.7992368202285832), z_dir=(0.7992368202285832, 0, -0.6010162270612195))):
        Polygon((-120.009855749, -69.723738659), (-113.182154103, -69.723738659), (-113.182154103, 23.204405296), (-112.182154103, 24.286300454), (-112.182154103, 28.147322854), (-120.009855749, 28.147322854), align=None)
        Polygon((-113.182154103, 23.204405296), (-113.182154103, -69.723738659), (-112.182154103, -69.723738659), (-112.182154103, 24.286300454), align=None)
        Polygon((-113.182154103, -175.112622267), (-113.182154103, -69.723738659), (-120.009855749, -69.723738659), (-120.009855749, -178.276095982), (-112.182154103, -178.276095982), (-112.182154103, -174.504193466), align=None)
        Polygon((-112.182154103, -69.723738659), (-113.182154103, -69.723738659), (-113.182154103, -175.112622267), (-112.182154103, -174.504193466), align=None)
    extrude(amount=-CUT_EXTRUDE_14_DEPTH, mode=Mode.SUBTRACT)

    # 草图33 → 切除-拉伸15 (cut)
    with BuildSketch(Plane(origin=(0, -106.044862451, -80.727948124), x_dir=(1, 0, 0), z_dir=(0, -0.7956781110640406, -0.6057196905942221))):
        Polygon((69.393478745, 118.677029152), (69.393478745, 114.02594449), (173.356028024, 114.02594449), (174.41412798, 113.02594449), (179.725148275, 113.02594449), (179.725148275, 118.677029152), align=None)
        Polygon((-23.310620962, 114.02594449), (69.393478745, 114.02594449), (69.393478745, 118.677029152), (69.393478745, 127.996312104), (-31.968712938, 127.996312104), (-31.968712938, 113.02594449), (-24.374344205, 113.02594449), align=None)
        Polygon((69.393478745, 113.02594449), (69.393478745, 114.02594449), (-23.310620962, 114.02594449), (-24.374344205, 113.02594449), align=None)
        Polygon((173.356028024, 114.02594449), (69.393478745, 114.02594449), (69.393478745, 113.02594449), (174.41412798, 113.02594449), align=None)
    extrude(amount=-CUT_EXTRUDE_15_DEPTH, mode=Mode.SUBTRACT)

    # 草图36 → 切除-拉伸19 (cut)
    with BuildSketch(Plane.ZY.offset(17.5)):
        Polygon((10.043413086, 23.204405296), (10, 23.204405296), (9.19, 23.204405296), (9.19, -174.807653439), (10.859055114, -174.807653439), (10.859055114, 23.204405296), align=None)
        Polygon((9.19, 23.204405296), (10, 23.204405296), (10.043413086, 23.204405296), (10.043413086, 24.45758786), (9.19, 24.45758786), align=None)
    extrude(amount=-CUT_EXTRUDE_19_DEPTH, mode=Mode.SUBTRACT)

    # 草图37 → 切除-拉伸20 (cut)
    with BuildSketch(Plane(origin=(-17.5, 0, 0), x_dir=(0, 0, -1), z_dir=(1, 0, 0))):
        Polygon((-9.204321889, -174.506902577), (-10, -173.461693603), (-10.120495689, -173.461693603), (-10.120495689, -174.637630453), (-9.19, -174.637630453), (-9.19, -174.495999864), align=None)
        Polygon((-9.19, -173.461693603), (-10, -173.461693603), (-9.204321889, -174.506902577), (-9.19, -174.495999864), align=None)
        Polygon((-10, -171.342253373), (-10, -173.461693603), (-9.19, -173.461693603), (-9.19, -170.725630969), align=None)
        Polygon((-10.120495689, -173.461693603), (-10, -173.461693603), (-10, -171.342253373), (-9.19, -170.725630969), (-9.19, 24.422433595), (-10.120495689, 24.422433595), align=None)
    extrude(amount=-CUT_EXTRUDE_20_DEPTH, mode=Mode.SUBTRACT)


with BuildPart() as body_2_1:
    add(body_2.part)

    # 切除-拉伸4: cut by cut_extrude_4_tool
    add(cut_extrude_4_tool.part, mode=Mode.SUBTRACT)


solid = part_1.part
